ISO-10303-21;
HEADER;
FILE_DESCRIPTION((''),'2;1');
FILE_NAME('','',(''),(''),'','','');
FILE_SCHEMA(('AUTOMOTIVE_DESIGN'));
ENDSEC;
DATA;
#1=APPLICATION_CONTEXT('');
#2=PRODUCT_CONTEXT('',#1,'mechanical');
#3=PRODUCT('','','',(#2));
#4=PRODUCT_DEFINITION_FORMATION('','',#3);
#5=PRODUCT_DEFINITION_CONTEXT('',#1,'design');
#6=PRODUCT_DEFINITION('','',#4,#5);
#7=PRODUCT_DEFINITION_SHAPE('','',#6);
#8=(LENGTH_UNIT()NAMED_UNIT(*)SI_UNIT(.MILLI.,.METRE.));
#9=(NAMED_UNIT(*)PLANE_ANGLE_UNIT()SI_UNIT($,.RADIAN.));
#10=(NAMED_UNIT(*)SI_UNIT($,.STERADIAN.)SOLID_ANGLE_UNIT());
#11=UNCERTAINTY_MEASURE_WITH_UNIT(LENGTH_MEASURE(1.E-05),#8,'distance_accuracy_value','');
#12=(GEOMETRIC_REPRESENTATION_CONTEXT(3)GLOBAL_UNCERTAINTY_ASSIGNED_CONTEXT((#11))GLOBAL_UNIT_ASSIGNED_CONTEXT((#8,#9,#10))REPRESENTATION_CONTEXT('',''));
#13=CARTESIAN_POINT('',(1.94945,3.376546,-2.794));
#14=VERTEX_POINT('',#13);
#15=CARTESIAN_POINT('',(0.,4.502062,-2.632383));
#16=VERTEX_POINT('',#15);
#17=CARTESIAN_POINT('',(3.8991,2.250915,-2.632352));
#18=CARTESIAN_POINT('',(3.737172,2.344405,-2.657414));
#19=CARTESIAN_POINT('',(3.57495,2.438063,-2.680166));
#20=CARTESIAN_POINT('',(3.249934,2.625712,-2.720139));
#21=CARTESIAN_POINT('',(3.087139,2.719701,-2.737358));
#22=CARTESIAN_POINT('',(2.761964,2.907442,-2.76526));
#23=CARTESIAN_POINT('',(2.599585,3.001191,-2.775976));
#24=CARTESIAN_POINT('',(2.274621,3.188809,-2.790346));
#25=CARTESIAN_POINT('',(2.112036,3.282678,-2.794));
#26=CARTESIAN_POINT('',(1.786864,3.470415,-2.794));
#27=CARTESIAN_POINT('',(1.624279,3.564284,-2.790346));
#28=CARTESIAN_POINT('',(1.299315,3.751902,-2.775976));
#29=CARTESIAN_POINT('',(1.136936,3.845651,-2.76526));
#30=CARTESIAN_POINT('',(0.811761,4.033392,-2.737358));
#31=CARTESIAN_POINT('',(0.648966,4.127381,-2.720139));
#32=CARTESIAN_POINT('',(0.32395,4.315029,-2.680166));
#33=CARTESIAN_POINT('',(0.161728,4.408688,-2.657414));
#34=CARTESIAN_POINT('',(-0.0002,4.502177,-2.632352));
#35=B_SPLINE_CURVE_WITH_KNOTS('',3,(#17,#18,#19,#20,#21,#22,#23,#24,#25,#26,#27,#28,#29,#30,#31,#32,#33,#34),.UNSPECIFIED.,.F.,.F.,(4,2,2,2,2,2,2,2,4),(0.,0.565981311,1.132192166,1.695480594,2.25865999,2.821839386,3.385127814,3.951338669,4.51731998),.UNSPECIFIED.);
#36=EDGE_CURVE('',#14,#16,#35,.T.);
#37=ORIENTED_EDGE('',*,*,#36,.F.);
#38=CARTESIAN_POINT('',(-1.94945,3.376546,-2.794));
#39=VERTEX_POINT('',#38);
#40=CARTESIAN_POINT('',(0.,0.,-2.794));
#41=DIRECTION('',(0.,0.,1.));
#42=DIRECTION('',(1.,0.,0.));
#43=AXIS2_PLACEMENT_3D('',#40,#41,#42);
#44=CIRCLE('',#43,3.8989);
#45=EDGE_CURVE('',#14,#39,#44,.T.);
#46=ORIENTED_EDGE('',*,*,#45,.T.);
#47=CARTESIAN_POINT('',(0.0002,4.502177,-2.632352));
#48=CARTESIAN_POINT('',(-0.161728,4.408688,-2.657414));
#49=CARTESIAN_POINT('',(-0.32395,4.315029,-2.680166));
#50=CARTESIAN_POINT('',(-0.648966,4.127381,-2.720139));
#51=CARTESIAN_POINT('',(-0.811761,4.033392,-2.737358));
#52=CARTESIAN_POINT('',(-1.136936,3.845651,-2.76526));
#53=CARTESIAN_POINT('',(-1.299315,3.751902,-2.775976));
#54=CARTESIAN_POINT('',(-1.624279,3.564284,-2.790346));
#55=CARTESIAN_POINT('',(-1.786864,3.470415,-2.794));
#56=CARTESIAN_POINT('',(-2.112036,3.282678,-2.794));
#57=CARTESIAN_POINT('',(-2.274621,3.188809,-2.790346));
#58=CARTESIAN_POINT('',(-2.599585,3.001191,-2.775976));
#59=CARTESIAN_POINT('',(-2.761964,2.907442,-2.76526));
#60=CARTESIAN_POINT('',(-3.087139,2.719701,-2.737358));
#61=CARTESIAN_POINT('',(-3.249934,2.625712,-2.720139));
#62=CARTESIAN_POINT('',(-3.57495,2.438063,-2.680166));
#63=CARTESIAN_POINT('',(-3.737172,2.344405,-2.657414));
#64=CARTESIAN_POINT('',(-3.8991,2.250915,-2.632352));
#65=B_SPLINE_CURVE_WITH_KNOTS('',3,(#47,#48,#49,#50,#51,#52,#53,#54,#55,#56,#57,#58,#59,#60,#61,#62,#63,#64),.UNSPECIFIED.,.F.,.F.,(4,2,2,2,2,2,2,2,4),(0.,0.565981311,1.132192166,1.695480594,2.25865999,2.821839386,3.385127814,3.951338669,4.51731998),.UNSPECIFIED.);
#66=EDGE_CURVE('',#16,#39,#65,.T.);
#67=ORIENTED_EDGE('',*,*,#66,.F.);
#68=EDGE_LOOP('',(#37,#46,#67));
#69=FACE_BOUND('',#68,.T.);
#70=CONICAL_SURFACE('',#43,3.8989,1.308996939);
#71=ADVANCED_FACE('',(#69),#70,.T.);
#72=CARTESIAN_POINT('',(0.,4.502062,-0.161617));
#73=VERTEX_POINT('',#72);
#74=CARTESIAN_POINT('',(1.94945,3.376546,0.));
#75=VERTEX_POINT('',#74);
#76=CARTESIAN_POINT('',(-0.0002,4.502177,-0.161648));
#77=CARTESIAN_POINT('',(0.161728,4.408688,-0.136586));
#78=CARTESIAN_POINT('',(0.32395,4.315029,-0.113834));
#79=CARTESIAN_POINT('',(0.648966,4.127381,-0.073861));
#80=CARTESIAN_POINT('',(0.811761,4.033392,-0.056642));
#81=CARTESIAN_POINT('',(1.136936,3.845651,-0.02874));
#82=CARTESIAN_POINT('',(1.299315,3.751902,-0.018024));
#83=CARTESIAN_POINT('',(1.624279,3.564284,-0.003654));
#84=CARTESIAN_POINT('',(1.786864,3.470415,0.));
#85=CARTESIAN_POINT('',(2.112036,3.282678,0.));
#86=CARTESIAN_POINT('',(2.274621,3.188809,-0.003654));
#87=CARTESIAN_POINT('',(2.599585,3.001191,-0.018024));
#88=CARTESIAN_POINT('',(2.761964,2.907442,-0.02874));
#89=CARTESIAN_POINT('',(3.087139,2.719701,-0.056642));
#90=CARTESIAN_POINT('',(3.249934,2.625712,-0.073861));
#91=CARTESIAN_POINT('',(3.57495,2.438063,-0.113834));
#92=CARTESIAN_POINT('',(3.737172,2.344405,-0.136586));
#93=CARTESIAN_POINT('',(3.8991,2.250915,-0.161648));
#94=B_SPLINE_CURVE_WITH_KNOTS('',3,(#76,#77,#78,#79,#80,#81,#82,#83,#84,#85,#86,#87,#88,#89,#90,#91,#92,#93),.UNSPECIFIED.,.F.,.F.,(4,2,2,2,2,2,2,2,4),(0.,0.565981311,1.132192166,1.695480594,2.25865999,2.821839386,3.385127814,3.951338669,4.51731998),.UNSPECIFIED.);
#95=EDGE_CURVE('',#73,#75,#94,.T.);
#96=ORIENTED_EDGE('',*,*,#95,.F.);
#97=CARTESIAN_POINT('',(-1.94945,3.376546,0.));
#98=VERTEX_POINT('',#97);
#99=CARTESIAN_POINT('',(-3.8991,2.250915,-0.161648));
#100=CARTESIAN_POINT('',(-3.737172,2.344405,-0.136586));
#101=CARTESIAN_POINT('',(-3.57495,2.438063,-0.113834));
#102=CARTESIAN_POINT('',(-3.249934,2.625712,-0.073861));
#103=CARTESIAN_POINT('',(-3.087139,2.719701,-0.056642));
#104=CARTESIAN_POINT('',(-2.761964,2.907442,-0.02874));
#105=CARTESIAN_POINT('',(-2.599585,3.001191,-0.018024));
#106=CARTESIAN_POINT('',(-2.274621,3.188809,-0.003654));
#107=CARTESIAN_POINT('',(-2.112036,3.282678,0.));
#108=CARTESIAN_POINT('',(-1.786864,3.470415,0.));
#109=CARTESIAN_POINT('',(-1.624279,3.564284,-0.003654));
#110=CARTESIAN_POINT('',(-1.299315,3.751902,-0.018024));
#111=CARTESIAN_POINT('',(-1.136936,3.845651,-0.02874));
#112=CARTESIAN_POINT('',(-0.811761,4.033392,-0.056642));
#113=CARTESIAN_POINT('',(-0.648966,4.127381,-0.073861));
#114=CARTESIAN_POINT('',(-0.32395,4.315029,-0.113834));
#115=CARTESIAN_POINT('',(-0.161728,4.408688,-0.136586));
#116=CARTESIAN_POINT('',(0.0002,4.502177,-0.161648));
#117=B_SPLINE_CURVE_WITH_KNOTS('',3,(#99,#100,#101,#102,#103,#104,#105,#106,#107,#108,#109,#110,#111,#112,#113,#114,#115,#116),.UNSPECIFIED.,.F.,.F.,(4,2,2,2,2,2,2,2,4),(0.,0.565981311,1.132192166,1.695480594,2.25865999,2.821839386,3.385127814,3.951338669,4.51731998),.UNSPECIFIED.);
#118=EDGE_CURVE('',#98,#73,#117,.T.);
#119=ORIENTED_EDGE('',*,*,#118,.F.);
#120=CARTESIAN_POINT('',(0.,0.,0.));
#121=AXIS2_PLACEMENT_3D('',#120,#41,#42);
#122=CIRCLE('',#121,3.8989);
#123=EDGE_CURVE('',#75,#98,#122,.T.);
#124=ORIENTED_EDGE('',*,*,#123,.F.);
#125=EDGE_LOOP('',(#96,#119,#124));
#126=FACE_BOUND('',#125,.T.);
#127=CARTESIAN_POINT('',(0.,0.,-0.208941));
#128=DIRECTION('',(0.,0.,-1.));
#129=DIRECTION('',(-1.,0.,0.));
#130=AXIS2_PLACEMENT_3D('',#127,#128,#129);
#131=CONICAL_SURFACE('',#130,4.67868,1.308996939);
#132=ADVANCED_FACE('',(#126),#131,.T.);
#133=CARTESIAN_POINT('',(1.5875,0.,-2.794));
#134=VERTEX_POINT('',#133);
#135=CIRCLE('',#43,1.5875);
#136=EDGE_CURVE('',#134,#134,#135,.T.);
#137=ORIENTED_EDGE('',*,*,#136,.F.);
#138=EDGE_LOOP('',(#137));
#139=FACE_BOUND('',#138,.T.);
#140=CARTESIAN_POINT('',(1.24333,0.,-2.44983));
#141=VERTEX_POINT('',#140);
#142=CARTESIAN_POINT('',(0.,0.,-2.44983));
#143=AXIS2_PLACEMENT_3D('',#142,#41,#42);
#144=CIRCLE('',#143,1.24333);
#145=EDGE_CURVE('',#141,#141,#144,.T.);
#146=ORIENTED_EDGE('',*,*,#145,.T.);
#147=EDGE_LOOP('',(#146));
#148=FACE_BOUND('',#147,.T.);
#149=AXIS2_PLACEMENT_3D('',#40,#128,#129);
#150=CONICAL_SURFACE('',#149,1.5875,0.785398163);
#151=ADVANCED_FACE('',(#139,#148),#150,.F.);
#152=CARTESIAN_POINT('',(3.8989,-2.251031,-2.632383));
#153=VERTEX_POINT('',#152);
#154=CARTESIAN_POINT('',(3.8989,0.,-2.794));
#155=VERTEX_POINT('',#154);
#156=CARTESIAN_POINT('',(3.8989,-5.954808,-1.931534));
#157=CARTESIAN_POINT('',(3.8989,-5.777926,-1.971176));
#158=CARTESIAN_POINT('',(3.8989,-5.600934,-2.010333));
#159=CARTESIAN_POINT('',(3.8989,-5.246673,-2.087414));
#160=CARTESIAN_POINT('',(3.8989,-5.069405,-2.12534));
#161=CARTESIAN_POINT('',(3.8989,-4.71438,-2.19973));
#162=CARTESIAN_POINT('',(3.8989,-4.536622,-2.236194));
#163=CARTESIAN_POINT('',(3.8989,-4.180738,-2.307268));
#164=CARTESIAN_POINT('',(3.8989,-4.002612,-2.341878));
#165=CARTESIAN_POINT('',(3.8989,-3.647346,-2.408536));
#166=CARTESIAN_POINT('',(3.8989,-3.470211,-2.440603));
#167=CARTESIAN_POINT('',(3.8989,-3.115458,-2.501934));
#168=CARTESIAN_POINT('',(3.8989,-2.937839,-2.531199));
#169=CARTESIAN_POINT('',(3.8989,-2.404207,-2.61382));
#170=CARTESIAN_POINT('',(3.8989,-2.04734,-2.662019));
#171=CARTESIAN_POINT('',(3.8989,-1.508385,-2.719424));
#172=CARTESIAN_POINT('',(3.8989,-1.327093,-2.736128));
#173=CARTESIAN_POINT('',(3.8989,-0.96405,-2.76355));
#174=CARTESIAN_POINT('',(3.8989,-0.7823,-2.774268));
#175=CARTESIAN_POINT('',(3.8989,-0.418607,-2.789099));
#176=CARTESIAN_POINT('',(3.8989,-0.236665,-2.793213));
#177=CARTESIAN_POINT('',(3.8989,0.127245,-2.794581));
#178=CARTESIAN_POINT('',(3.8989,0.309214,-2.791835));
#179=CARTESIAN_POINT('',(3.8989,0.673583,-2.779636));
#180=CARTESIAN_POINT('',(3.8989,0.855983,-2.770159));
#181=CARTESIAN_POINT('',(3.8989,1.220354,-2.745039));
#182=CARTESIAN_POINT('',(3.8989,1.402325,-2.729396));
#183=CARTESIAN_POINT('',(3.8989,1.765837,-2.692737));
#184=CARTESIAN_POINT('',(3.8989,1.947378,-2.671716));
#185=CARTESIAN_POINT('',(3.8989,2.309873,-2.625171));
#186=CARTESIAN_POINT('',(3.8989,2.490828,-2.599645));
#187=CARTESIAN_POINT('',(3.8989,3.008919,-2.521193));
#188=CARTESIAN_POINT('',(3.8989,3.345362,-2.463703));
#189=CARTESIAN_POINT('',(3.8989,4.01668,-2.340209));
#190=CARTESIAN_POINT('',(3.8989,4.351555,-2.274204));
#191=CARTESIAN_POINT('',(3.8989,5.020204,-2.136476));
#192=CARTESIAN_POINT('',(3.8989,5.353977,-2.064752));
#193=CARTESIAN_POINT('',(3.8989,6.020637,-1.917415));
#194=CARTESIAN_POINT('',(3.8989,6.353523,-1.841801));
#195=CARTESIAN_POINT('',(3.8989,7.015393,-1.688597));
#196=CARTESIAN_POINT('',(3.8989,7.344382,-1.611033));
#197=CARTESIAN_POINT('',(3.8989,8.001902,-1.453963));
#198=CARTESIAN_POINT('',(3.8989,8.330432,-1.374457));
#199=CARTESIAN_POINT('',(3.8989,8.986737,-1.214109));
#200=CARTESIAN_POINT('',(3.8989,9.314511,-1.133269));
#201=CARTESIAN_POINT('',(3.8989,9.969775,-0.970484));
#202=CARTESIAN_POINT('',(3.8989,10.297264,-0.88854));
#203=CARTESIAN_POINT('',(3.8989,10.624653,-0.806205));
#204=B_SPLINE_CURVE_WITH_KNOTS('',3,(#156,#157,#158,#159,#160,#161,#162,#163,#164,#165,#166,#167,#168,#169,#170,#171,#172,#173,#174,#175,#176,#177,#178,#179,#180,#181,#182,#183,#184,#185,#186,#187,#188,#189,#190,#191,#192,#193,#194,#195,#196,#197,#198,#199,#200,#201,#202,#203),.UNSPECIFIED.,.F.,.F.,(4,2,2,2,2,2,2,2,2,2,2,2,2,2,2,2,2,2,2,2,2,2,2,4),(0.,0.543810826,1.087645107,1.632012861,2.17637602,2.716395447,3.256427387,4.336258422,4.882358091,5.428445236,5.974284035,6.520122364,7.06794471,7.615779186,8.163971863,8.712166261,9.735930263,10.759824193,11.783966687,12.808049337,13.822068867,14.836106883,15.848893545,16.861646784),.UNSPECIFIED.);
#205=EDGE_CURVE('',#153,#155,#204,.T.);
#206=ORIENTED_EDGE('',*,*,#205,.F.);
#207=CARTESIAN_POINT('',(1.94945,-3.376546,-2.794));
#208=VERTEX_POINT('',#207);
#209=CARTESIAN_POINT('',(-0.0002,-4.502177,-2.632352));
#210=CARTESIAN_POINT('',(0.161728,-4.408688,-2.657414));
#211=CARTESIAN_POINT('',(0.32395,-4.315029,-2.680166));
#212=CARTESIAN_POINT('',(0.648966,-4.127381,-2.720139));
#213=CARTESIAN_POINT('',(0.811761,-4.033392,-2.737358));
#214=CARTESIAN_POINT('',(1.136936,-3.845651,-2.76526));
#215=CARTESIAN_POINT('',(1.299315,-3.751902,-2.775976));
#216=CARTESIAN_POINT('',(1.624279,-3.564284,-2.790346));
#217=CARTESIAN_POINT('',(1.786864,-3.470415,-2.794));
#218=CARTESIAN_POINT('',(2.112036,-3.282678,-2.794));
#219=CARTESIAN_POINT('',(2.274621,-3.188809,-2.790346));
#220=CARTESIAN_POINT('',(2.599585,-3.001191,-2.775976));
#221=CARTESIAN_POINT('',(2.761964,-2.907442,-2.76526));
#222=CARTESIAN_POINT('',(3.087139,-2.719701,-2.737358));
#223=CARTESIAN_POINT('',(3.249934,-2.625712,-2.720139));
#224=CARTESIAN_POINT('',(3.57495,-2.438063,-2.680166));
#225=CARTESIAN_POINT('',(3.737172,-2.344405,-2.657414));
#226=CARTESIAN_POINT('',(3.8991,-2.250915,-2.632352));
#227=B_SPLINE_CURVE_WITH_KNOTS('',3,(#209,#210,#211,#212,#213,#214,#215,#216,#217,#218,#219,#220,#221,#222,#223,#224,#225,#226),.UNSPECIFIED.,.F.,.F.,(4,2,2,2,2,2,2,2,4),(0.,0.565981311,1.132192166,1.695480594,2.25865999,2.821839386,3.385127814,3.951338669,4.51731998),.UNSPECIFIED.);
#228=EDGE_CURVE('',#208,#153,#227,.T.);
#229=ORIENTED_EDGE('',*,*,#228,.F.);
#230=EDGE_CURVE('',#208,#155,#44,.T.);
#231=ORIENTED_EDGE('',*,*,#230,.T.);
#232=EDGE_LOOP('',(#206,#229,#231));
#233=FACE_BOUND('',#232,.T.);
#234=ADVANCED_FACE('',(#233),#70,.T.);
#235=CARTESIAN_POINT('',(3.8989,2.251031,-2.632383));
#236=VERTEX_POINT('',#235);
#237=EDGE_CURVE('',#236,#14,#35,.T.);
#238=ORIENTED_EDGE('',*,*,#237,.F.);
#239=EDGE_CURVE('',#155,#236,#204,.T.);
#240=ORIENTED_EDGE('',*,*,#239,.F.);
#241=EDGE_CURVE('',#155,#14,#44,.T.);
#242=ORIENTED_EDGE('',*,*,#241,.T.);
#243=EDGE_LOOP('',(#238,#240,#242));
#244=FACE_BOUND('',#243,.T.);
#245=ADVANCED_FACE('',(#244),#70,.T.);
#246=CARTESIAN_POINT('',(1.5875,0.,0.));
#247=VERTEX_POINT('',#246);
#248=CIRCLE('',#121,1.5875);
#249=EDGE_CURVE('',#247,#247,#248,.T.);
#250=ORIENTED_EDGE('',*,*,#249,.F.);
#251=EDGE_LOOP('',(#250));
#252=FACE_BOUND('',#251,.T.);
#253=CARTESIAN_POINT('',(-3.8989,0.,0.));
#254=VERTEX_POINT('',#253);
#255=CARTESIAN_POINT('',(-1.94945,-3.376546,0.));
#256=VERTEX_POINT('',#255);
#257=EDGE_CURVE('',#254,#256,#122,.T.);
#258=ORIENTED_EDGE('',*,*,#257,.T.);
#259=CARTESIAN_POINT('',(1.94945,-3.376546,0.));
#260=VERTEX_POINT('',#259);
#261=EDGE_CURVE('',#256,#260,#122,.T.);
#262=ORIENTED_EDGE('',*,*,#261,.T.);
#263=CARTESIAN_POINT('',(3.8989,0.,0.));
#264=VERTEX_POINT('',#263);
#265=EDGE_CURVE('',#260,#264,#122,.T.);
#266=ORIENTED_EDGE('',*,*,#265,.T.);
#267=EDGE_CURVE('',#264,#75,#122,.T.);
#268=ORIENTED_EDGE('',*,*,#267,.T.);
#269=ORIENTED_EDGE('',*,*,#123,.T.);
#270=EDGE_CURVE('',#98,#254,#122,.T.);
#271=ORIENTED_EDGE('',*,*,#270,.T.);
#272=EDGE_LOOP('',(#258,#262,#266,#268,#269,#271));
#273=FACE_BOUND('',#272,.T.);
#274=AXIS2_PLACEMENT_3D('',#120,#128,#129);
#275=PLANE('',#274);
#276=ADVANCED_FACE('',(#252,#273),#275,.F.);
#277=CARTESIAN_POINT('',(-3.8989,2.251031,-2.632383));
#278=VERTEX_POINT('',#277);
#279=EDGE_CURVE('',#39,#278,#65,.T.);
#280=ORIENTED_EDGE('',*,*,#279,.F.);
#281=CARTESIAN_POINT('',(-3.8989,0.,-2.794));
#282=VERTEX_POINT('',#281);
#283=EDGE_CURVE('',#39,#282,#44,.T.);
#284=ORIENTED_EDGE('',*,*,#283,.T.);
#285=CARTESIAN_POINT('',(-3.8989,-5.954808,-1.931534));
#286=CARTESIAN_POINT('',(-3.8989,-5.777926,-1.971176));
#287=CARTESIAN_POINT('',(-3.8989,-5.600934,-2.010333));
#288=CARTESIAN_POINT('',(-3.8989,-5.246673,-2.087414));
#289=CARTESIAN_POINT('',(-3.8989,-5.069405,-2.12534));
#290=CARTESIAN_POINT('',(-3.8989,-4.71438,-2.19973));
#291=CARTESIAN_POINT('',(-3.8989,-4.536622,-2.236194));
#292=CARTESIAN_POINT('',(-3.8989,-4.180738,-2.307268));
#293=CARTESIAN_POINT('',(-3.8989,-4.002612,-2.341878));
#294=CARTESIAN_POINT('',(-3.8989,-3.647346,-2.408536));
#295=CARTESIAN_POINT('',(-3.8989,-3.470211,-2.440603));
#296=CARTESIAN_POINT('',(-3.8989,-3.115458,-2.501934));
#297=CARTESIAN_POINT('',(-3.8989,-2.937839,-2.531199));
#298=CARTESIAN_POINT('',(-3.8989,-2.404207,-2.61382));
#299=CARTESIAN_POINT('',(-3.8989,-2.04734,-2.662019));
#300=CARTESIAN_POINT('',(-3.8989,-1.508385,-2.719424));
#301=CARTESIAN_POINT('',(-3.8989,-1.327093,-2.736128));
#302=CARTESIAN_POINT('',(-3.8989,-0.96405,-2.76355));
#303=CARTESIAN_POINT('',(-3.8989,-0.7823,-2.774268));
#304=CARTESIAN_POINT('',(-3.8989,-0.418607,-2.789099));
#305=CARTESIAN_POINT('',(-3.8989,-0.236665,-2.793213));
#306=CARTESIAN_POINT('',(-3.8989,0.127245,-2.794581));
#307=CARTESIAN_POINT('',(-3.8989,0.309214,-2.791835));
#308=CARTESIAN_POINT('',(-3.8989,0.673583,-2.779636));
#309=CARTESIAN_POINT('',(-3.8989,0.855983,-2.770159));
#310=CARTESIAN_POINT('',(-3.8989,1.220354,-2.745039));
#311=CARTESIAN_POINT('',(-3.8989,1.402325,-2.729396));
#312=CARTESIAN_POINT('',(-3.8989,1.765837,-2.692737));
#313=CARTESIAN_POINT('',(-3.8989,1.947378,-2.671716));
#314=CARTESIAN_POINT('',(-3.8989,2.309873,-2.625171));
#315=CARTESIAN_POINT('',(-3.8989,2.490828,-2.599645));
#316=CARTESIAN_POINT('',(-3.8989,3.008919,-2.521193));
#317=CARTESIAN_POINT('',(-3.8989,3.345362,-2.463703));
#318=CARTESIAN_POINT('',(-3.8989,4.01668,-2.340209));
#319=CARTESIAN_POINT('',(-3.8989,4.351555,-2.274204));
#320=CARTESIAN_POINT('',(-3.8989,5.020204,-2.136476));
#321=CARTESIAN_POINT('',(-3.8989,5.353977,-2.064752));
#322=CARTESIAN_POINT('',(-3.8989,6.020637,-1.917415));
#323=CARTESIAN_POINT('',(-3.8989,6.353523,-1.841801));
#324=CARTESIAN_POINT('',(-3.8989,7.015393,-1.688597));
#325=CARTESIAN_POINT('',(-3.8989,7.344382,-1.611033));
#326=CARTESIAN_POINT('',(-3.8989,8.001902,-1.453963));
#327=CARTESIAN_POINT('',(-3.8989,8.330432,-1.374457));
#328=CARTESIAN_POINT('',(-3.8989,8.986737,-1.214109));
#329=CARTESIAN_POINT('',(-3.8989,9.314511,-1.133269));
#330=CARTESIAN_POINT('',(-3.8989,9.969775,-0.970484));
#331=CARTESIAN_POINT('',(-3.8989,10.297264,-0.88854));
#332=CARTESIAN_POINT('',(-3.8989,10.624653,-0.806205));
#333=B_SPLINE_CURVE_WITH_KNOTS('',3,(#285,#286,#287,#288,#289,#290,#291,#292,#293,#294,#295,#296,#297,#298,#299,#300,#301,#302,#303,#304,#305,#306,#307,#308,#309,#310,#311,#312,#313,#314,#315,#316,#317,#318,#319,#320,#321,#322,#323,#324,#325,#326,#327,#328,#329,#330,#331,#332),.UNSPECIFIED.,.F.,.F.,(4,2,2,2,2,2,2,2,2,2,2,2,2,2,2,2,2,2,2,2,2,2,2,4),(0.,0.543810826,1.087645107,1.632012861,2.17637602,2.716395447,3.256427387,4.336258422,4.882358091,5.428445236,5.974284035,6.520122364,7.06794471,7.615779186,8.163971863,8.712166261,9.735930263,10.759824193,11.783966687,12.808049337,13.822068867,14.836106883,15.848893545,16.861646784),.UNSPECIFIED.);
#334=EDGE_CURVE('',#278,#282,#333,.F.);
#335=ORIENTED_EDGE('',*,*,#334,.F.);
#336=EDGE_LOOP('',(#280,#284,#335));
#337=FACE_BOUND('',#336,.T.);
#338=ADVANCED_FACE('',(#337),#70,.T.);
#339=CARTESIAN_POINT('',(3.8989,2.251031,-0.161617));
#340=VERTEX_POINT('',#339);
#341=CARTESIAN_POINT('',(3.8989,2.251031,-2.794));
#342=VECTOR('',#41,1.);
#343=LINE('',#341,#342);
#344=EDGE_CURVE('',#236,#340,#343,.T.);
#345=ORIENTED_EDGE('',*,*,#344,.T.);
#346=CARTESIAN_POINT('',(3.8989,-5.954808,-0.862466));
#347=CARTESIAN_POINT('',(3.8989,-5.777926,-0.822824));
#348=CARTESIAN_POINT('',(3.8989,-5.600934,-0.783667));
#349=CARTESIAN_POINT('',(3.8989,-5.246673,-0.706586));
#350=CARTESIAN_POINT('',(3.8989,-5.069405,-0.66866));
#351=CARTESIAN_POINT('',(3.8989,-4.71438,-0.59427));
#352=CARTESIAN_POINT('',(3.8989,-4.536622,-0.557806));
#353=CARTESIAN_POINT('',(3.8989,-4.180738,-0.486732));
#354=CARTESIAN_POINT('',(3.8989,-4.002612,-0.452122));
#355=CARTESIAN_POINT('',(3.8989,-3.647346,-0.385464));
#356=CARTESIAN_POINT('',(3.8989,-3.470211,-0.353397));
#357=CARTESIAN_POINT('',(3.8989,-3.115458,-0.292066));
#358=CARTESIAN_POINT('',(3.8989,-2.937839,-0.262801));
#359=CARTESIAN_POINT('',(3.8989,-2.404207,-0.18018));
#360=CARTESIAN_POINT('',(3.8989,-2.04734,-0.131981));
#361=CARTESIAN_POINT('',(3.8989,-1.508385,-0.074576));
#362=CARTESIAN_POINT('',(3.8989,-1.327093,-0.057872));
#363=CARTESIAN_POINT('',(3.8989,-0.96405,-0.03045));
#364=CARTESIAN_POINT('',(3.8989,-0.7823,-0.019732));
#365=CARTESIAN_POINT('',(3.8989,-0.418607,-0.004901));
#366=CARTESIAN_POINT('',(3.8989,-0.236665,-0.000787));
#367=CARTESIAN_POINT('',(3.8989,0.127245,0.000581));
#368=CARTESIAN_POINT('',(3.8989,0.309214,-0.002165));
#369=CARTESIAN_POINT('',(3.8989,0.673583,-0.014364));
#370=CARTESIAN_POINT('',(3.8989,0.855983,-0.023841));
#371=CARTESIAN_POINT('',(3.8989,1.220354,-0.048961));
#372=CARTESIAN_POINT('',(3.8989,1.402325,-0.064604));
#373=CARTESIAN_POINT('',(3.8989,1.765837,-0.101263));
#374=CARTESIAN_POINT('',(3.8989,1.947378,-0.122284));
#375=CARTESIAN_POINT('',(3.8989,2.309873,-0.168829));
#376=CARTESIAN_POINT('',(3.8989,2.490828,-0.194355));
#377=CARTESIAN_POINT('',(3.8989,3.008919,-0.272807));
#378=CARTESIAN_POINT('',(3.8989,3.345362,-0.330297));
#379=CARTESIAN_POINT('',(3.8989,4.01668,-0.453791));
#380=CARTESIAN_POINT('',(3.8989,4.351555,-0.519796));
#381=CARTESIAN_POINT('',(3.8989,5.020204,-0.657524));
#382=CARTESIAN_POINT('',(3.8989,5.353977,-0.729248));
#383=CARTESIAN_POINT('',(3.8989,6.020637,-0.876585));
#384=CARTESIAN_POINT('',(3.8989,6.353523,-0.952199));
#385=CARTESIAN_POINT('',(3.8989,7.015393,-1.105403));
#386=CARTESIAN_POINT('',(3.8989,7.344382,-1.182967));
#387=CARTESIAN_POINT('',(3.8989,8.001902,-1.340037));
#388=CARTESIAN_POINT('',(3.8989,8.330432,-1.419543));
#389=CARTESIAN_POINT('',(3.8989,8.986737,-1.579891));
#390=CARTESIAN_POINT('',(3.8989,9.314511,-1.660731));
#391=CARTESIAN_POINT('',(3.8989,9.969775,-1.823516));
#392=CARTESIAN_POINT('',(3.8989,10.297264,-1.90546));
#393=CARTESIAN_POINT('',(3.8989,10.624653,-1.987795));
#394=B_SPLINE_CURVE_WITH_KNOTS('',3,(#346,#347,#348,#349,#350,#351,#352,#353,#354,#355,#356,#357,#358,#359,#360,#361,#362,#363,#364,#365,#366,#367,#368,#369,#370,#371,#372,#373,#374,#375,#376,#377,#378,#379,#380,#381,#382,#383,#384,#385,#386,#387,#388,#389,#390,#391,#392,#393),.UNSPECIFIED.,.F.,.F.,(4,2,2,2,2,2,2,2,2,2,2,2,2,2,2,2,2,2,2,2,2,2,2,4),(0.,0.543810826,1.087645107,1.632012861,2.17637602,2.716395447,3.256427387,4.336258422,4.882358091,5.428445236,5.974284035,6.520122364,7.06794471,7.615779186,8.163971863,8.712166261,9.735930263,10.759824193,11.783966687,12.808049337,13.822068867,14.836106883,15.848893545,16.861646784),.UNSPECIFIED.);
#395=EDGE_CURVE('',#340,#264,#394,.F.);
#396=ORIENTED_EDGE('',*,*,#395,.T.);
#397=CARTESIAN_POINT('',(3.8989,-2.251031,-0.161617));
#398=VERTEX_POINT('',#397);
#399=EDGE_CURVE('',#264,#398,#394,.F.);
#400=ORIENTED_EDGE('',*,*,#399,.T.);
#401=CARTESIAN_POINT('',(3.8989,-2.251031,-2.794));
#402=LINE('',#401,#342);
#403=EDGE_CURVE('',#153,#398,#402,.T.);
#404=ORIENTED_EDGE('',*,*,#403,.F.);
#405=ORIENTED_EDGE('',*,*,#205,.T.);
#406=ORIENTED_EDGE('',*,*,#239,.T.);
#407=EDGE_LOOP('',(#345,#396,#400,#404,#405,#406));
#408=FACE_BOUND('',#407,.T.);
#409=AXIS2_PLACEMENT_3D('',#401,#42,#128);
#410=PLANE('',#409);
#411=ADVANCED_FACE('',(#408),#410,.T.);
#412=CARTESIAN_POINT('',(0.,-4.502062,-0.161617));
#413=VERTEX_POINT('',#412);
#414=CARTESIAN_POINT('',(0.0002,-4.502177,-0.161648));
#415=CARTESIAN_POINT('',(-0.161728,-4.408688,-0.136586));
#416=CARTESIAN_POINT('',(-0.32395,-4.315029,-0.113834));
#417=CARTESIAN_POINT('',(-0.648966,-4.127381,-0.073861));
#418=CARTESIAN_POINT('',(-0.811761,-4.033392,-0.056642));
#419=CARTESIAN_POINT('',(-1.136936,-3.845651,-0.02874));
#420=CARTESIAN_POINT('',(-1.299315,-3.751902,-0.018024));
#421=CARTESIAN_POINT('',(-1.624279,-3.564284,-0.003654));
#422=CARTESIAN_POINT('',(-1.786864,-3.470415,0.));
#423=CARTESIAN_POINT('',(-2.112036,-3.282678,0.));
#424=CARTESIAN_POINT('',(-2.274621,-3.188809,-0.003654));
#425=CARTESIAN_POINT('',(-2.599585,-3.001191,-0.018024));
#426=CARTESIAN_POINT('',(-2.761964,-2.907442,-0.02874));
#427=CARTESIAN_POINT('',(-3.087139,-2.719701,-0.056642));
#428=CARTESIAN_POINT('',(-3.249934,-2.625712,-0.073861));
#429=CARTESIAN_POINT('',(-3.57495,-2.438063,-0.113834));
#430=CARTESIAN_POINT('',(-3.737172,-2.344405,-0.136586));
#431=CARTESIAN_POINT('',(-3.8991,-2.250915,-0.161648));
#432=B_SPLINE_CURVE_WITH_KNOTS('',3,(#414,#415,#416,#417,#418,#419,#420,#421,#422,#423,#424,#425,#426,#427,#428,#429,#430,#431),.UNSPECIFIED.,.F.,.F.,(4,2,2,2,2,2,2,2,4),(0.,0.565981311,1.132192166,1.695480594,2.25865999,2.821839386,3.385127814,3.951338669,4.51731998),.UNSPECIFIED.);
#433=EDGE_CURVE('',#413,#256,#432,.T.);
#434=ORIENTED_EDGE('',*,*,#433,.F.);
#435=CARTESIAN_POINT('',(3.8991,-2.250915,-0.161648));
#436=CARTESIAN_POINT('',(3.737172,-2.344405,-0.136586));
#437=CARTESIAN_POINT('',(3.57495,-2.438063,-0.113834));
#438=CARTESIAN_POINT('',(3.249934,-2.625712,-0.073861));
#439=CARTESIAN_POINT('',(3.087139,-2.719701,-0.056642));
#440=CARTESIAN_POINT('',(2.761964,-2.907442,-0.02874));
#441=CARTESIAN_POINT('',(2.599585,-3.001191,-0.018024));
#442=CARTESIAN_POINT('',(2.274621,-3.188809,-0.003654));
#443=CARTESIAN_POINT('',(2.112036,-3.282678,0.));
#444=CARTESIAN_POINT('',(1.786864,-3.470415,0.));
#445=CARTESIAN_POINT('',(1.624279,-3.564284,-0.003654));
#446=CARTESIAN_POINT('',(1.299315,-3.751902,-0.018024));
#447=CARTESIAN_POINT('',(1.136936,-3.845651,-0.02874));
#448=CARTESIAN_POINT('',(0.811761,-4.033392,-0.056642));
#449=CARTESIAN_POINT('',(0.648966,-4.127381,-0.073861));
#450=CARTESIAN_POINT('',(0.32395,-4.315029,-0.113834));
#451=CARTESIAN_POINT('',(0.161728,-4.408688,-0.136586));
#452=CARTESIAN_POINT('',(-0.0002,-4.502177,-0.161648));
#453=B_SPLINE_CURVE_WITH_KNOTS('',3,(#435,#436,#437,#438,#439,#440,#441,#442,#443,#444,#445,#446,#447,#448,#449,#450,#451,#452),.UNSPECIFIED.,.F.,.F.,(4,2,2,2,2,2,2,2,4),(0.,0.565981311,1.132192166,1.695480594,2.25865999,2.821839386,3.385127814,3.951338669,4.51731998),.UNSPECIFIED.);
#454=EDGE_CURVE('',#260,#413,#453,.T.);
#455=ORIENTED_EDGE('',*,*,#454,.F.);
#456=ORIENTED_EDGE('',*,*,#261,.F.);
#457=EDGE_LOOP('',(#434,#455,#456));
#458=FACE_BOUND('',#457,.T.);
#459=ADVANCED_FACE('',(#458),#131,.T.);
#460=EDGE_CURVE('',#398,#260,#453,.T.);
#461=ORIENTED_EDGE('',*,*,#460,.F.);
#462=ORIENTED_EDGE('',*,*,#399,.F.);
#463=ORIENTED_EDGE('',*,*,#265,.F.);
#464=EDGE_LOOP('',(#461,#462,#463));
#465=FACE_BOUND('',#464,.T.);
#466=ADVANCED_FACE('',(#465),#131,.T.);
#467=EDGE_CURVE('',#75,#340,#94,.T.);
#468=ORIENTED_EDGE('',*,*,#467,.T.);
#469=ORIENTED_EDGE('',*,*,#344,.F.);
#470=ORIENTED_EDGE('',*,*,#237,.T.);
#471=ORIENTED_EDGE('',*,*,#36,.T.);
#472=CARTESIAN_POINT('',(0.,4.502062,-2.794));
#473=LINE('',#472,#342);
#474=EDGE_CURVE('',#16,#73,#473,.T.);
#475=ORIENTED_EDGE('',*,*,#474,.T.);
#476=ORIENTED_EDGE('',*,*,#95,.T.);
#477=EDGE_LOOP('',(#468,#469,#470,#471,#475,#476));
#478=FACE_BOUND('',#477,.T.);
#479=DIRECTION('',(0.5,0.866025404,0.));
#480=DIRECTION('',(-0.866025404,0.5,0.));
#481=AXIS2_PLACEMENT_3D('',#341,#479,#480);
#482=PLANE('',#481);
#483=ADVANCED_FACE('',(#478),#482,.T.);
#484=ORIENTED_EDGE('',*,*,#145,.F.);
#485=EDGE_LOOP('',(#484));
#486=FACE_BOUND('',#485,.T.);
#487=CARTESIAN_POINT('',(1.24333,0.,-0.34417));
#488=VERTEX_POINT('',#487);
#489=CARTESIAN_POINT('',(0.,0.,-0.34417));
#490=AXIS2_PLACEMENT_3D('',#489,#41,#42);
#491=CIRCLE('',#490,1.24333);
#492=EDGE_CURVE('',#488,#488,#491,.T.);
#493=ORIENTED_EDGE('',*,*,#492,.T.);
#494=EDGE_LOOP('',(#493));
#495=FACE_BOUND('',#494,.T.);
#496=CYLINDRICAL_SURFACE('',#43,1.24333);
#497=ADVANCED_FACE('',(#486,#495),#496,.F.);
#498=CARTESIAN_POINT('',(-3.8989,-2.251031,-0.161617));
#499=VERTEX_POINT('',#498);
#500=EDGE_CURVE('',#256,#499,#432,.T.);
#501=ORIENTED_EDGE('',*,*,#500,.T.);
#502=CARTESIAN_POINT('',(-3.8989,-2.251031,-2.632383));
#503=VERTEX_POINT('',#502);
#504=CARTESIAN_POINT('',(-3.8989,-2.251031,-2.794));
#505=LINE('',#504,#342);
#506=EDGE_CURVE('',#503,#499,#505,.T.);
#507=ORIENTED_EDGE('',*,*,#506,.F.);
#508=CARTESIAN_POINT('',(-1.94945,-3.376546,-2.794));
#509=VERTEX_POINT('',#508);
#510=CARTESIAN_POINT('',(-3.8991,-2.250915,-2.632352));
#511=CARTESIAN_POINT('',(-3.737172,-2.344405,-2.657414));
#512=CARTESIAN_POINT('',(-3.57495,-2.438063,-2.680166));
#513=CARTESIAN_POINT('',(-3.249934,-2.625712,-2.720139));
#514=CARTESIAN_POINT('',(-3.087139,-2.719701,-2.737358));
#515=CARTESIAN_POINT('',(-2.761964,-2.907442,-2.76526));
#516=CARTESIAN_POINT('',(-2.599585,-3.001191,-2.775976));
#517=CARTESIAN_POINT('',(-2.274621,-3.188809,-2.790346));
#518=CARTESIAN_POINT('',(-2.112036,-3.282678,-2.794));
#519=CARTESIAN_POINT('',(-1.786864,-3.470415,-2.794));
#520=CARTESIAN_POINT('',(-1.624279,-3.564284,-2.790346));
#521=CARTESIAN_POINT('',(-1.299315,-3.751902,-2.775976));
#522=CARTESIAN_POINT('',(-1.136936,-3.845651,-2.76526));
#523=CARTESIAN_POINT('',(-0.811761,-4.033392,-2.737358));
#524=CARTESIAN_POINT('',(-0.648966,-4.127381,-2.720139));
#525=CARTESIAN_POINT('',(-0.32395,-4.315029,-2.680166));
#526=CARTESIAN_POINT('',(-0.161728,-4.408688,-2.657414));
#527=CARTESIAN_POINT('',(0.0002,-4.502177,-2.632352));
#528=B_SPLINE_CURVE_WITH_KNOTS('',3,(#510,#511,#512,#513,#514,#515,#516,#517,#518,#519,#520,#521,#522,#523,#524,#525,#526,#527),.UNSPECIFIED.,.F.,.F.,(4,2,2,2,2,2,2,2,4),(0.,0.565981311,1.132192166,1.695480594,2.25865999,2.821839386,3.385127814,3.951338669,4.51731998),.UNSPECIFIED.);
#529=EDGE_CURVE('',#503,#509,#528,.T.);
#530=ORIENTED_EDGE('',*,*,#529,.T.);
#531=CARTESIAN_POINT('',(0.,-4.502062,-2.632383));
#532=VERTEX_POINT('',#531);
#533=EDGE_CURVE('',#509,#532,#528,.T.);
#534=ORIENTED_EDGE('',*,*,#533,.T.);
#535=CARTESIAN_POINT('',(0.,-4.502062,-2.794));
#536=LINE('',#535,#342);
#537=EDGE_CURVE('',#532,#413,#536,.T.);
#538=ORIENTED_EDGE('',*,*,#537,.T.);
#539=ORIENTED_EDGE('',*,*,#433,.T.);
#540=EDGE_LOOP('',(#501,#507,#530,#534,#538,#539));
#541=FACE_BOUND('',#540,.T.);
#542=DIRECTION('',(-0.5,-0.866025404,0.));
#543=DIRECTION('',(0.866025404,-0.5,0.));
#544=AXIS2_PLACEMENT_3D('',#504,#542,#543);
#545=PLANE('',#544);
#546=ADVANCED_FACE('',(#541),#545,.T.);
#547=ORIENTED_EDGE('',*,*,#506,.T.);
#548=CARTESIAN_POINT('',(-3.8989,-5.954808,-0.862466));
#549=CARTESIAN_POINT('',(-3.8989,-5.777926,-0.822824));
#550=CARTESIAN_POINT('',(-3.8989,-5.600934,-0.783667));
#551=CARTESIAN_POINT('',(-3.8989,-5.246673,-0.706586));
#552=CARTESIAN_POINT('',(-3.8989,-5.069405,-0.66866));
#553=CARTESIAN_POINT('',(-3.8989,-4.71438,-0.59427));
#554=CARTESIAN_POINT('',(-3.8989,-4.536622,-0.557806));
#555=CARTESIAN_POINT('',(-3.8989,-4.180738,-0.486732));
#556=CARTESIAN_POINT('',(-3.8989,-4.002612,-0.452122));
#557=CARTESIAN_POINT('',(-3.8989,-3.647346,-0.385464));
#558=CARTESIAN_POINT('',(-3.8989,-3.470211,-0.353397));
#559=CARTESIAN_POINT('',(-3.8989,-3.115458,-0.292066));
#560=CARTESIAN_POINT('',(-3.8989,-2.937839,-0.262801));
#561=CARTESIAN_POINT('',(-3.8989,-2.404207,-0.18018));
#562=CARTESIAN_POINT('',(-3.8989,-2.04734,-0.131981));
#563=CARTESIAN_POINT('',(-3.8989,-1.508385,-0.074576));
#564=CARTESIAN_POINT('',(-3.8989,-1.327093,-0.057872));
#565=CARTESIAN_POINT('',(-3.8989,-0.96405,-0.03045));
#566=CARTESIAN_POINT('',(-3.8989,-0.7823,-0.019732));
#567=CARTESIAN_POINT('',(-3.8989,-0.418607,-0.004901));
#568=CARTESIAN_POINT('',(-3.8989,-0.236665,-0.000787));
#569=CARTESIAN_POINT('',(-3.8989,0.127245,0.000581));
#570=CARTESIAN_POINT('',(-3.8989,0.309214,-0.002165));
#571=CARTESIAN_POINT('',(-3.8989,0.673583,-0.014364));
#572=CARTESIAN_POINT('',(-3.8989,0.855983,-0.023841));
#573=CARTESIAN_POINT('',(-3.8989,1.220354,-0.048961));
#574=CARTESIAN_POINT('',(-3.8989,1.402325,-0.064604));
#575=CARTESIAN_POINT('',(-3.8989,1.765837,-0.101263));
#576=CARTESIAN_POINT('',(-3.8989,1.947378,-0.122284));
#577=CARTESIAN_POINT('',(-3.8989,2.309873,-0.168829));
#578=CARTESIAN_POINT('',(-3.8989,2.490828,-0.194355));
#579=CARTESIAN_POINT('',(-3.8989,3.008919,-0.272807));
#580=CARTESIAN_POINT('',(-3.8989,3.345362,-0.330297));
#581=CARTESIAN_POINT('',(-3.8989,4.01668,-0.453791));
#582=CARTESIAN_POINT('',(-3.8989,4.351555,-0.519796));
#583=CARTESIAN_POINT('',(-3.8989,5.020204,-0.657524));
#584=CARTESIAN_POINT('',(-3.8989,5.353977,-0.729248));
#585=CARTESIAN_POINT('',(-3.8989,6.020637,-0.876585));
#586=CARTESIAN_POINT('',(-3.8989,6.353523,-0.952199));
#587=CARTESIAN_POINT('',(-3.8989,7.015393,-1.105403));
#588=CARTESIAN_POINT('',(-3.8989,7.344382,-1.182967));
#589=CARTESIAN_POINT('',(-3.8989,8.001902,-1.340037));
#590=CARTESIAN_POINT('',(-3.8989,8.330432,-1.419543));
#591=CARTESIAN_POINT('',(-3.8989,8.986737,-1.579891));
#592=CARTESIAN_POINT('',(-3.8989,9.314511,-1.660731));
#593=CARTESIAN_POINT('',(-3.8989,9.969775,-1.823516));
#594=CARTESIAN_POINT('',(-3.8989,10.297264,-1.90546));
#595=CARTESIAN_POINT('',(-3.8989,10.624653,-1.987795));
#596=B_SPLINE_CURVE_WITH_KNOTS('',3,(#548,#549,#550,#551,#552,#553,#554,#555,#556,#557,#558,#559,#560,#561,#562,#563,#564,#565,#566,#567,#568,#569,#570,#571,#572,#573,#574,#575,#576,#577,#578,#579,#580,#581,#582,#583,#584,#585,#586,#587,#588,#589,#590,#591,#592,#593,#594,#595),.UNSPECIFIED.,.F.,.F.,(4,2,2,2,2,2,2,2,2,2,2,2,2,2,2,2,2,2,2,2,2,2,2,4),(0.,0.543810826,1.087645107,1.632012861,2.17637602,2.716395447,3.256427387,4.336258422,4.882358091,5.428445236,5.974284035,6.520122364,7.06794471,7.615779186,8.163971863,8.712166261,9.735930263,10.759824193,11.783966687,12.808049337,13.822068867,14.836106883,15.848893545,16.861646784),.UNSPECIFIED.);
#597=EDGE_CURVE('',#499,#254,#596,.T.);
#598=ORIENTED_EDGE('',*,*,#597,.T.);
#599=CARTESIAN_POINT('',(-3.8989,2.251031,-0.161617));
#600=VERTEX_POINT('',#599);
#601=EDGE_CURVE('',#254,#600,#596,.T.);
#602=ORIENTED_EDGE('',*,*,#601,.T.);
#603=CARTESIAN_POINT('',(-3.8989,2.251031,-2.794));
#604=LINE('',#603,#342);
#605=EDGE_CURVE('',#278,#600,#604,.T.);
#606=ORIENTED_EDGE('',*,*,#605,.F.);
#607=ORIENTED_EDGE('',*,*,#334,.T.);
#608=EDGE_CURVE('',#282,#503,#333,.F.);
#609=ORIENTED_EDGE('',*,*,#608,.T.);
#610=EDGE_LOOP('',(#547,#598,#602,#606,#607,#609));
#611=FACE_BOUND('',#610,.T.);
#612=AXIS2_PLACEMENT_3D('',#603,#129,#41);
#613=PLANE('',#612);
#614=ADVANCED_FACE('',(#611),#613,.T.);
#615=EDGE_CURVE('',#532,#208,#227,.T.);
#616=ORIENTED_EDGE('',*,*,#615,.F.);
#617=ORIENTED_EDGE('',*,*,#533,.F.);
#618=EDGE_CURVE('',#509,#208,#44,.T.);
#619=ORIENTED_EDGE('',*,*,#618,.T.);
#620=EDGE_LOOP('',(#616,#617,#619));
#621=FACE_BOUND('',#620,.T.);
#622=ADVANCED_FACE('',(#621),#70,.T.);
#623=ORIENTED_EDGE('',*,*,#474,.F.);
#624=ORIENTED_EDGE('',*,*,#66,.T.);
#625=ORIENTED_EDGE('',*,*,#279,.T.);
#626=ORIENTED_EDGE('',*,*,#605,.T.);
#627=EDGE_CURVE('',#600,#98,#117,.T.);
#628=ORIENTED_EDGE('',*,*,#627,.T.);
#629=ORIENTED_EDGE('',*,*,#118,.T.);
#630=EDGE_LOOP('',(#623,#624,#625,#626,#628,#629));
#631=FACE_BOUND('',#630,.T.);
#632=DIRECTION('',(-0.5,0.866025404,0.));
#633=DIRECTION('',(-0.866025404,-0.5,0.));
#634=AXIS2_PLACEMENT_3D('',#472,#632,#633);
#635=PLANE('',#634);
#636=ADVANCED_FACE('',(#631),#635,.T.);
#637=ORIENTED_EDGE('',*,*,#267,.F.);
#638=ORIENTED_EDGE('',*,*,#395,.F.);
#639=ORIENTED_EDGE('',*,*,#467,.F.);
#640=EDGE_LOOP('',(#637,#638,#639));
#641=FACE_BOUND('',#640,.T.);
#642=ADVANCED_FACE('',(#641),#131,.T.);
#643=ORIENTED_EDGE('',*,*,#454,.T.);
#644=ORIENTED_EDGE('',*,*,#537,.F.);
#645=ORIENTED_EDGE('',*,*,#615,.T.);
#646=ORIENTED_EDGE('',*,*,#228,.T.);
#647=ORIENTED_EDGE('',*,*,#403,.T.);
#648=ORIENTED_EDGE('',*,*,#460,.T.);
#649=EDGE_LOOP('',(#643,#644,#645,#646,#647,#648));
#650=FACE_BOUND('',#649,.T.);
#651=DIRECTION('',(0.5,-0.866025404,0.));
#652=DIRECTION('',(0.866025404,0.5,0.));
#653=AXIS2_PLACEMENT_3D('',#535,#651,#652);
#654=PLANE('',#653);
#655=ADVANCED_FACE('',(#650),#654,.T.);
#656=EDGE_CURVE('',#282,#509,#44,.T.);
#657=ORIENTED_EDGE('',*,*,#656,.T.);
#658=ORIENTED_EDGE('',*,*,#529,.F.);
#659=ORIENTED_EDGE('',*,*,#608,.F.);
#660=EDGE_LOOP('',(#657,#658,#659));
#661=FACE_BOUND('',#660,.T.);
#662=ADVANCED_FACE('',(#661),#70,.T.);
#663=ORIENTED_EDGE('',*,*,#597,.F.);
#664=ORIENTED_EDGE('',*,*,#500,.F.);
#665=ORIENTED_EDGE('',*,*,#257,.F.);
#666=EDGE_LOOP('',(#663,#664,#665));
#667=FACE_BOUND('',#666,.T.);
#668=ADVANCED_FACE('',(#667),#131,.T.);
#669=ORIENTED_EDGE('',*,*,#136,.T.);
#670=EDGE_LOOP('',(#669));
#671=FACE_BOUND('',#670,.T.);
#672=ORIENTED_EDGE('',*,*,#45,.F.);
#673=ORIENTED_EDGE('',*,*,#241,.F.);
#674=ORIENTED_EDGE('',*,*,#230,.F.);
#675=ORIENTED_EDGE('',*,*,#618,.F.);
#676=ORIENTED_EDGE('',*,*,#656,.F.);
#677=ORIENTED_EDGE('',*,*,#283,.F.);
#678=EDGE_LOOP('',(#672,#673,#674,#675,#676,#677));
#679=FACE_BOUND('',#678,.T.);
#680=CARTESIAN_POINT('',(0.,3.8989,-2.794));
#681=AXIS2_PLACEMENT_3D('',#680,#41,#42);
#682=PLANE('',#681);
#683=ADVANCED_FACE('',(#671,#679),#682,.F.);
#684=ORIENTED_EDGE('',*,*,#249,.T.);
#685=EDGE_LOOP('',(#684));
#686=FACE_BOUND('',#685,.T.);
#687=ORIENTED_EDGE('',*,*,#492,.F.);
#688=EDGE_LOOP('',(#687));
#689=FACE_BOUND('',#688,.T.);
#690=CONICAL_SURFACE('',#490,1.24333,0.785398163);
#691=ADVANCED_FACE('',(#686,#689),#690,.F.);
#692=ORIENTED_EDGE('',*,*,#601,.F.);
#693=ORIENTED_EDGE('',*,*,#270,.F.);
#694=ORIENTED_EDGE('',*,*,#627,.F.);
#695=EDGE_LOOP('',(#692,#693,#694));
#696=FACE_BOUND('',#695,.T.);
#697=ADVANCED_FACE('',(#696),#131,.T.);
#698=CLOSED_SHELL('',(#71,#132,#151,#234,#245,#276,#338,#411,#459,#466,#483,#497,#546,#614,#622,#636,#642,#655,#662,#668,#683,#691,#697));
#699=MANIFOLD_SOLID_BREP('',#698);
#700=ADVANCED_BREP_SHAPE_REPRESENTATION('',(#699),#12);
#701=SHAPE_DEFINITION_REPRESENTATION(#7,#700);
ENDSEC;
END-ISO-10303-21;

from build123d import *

# Parameters (mm, degrees)
SKETCH2_W          = 15.5956
SKETCH2_H          = 15.5956
CUT_EXTRUDE1_DEPTH = 2.794


with BuildPart() as part:
    # Sketch1 → Revolve1 (revolve)
    with BuildSketch(Plane(origin=(0, 0, 0), x_dir=(0, 0, -1), z_dir=(1, 0, 0))):
        Polygon((0, 0), (0, 3.8989), (0.208941421, 4.67868), (2.585058579, 4.67868), (2.794, 3.8989), (2.794, 0), align=None)
    revolve(axis=Axis((0, 0, -2.794), (0, 0, 1)))

    # Sketch2 → Cut-Extrude1 (cut)
    with BuildSketch(Plane.XY):
        Rectangle(SKETCH2_W, SKETCH2_H)
        Polygon((-3.8989, -2.251030965), (0, -4.502061929), (3.8989, -2.251030965), (3.8989, 2.251030965), (0, 4.502061929), (-3.8989, 2.251030965), align=None, mode=Mode.SUBTRACT)
    extrude(amount=-CUT_EXTRUDE1_DEPTH, mode=Mode.SUBTRACT)

    # Sketch3 → Cut-Revolve1 (revolve, cut)
    with BuildSketch(Plane(origin=(0, 0, 0), x_dir=(0, 0, -1), z_dir=(1, 0, 0))):
        Polygon((0, 0), (0, 1.5875), (0.34417, 1.24333), (2.44983, 1.24333), (2.794, 1.5875), (2.794, 0), align=None)
    revolve(axis=Axis((0, 0, -2.794), (0, 0, 1)), mode=Mode.SUBTRACT)


solid = part.part
